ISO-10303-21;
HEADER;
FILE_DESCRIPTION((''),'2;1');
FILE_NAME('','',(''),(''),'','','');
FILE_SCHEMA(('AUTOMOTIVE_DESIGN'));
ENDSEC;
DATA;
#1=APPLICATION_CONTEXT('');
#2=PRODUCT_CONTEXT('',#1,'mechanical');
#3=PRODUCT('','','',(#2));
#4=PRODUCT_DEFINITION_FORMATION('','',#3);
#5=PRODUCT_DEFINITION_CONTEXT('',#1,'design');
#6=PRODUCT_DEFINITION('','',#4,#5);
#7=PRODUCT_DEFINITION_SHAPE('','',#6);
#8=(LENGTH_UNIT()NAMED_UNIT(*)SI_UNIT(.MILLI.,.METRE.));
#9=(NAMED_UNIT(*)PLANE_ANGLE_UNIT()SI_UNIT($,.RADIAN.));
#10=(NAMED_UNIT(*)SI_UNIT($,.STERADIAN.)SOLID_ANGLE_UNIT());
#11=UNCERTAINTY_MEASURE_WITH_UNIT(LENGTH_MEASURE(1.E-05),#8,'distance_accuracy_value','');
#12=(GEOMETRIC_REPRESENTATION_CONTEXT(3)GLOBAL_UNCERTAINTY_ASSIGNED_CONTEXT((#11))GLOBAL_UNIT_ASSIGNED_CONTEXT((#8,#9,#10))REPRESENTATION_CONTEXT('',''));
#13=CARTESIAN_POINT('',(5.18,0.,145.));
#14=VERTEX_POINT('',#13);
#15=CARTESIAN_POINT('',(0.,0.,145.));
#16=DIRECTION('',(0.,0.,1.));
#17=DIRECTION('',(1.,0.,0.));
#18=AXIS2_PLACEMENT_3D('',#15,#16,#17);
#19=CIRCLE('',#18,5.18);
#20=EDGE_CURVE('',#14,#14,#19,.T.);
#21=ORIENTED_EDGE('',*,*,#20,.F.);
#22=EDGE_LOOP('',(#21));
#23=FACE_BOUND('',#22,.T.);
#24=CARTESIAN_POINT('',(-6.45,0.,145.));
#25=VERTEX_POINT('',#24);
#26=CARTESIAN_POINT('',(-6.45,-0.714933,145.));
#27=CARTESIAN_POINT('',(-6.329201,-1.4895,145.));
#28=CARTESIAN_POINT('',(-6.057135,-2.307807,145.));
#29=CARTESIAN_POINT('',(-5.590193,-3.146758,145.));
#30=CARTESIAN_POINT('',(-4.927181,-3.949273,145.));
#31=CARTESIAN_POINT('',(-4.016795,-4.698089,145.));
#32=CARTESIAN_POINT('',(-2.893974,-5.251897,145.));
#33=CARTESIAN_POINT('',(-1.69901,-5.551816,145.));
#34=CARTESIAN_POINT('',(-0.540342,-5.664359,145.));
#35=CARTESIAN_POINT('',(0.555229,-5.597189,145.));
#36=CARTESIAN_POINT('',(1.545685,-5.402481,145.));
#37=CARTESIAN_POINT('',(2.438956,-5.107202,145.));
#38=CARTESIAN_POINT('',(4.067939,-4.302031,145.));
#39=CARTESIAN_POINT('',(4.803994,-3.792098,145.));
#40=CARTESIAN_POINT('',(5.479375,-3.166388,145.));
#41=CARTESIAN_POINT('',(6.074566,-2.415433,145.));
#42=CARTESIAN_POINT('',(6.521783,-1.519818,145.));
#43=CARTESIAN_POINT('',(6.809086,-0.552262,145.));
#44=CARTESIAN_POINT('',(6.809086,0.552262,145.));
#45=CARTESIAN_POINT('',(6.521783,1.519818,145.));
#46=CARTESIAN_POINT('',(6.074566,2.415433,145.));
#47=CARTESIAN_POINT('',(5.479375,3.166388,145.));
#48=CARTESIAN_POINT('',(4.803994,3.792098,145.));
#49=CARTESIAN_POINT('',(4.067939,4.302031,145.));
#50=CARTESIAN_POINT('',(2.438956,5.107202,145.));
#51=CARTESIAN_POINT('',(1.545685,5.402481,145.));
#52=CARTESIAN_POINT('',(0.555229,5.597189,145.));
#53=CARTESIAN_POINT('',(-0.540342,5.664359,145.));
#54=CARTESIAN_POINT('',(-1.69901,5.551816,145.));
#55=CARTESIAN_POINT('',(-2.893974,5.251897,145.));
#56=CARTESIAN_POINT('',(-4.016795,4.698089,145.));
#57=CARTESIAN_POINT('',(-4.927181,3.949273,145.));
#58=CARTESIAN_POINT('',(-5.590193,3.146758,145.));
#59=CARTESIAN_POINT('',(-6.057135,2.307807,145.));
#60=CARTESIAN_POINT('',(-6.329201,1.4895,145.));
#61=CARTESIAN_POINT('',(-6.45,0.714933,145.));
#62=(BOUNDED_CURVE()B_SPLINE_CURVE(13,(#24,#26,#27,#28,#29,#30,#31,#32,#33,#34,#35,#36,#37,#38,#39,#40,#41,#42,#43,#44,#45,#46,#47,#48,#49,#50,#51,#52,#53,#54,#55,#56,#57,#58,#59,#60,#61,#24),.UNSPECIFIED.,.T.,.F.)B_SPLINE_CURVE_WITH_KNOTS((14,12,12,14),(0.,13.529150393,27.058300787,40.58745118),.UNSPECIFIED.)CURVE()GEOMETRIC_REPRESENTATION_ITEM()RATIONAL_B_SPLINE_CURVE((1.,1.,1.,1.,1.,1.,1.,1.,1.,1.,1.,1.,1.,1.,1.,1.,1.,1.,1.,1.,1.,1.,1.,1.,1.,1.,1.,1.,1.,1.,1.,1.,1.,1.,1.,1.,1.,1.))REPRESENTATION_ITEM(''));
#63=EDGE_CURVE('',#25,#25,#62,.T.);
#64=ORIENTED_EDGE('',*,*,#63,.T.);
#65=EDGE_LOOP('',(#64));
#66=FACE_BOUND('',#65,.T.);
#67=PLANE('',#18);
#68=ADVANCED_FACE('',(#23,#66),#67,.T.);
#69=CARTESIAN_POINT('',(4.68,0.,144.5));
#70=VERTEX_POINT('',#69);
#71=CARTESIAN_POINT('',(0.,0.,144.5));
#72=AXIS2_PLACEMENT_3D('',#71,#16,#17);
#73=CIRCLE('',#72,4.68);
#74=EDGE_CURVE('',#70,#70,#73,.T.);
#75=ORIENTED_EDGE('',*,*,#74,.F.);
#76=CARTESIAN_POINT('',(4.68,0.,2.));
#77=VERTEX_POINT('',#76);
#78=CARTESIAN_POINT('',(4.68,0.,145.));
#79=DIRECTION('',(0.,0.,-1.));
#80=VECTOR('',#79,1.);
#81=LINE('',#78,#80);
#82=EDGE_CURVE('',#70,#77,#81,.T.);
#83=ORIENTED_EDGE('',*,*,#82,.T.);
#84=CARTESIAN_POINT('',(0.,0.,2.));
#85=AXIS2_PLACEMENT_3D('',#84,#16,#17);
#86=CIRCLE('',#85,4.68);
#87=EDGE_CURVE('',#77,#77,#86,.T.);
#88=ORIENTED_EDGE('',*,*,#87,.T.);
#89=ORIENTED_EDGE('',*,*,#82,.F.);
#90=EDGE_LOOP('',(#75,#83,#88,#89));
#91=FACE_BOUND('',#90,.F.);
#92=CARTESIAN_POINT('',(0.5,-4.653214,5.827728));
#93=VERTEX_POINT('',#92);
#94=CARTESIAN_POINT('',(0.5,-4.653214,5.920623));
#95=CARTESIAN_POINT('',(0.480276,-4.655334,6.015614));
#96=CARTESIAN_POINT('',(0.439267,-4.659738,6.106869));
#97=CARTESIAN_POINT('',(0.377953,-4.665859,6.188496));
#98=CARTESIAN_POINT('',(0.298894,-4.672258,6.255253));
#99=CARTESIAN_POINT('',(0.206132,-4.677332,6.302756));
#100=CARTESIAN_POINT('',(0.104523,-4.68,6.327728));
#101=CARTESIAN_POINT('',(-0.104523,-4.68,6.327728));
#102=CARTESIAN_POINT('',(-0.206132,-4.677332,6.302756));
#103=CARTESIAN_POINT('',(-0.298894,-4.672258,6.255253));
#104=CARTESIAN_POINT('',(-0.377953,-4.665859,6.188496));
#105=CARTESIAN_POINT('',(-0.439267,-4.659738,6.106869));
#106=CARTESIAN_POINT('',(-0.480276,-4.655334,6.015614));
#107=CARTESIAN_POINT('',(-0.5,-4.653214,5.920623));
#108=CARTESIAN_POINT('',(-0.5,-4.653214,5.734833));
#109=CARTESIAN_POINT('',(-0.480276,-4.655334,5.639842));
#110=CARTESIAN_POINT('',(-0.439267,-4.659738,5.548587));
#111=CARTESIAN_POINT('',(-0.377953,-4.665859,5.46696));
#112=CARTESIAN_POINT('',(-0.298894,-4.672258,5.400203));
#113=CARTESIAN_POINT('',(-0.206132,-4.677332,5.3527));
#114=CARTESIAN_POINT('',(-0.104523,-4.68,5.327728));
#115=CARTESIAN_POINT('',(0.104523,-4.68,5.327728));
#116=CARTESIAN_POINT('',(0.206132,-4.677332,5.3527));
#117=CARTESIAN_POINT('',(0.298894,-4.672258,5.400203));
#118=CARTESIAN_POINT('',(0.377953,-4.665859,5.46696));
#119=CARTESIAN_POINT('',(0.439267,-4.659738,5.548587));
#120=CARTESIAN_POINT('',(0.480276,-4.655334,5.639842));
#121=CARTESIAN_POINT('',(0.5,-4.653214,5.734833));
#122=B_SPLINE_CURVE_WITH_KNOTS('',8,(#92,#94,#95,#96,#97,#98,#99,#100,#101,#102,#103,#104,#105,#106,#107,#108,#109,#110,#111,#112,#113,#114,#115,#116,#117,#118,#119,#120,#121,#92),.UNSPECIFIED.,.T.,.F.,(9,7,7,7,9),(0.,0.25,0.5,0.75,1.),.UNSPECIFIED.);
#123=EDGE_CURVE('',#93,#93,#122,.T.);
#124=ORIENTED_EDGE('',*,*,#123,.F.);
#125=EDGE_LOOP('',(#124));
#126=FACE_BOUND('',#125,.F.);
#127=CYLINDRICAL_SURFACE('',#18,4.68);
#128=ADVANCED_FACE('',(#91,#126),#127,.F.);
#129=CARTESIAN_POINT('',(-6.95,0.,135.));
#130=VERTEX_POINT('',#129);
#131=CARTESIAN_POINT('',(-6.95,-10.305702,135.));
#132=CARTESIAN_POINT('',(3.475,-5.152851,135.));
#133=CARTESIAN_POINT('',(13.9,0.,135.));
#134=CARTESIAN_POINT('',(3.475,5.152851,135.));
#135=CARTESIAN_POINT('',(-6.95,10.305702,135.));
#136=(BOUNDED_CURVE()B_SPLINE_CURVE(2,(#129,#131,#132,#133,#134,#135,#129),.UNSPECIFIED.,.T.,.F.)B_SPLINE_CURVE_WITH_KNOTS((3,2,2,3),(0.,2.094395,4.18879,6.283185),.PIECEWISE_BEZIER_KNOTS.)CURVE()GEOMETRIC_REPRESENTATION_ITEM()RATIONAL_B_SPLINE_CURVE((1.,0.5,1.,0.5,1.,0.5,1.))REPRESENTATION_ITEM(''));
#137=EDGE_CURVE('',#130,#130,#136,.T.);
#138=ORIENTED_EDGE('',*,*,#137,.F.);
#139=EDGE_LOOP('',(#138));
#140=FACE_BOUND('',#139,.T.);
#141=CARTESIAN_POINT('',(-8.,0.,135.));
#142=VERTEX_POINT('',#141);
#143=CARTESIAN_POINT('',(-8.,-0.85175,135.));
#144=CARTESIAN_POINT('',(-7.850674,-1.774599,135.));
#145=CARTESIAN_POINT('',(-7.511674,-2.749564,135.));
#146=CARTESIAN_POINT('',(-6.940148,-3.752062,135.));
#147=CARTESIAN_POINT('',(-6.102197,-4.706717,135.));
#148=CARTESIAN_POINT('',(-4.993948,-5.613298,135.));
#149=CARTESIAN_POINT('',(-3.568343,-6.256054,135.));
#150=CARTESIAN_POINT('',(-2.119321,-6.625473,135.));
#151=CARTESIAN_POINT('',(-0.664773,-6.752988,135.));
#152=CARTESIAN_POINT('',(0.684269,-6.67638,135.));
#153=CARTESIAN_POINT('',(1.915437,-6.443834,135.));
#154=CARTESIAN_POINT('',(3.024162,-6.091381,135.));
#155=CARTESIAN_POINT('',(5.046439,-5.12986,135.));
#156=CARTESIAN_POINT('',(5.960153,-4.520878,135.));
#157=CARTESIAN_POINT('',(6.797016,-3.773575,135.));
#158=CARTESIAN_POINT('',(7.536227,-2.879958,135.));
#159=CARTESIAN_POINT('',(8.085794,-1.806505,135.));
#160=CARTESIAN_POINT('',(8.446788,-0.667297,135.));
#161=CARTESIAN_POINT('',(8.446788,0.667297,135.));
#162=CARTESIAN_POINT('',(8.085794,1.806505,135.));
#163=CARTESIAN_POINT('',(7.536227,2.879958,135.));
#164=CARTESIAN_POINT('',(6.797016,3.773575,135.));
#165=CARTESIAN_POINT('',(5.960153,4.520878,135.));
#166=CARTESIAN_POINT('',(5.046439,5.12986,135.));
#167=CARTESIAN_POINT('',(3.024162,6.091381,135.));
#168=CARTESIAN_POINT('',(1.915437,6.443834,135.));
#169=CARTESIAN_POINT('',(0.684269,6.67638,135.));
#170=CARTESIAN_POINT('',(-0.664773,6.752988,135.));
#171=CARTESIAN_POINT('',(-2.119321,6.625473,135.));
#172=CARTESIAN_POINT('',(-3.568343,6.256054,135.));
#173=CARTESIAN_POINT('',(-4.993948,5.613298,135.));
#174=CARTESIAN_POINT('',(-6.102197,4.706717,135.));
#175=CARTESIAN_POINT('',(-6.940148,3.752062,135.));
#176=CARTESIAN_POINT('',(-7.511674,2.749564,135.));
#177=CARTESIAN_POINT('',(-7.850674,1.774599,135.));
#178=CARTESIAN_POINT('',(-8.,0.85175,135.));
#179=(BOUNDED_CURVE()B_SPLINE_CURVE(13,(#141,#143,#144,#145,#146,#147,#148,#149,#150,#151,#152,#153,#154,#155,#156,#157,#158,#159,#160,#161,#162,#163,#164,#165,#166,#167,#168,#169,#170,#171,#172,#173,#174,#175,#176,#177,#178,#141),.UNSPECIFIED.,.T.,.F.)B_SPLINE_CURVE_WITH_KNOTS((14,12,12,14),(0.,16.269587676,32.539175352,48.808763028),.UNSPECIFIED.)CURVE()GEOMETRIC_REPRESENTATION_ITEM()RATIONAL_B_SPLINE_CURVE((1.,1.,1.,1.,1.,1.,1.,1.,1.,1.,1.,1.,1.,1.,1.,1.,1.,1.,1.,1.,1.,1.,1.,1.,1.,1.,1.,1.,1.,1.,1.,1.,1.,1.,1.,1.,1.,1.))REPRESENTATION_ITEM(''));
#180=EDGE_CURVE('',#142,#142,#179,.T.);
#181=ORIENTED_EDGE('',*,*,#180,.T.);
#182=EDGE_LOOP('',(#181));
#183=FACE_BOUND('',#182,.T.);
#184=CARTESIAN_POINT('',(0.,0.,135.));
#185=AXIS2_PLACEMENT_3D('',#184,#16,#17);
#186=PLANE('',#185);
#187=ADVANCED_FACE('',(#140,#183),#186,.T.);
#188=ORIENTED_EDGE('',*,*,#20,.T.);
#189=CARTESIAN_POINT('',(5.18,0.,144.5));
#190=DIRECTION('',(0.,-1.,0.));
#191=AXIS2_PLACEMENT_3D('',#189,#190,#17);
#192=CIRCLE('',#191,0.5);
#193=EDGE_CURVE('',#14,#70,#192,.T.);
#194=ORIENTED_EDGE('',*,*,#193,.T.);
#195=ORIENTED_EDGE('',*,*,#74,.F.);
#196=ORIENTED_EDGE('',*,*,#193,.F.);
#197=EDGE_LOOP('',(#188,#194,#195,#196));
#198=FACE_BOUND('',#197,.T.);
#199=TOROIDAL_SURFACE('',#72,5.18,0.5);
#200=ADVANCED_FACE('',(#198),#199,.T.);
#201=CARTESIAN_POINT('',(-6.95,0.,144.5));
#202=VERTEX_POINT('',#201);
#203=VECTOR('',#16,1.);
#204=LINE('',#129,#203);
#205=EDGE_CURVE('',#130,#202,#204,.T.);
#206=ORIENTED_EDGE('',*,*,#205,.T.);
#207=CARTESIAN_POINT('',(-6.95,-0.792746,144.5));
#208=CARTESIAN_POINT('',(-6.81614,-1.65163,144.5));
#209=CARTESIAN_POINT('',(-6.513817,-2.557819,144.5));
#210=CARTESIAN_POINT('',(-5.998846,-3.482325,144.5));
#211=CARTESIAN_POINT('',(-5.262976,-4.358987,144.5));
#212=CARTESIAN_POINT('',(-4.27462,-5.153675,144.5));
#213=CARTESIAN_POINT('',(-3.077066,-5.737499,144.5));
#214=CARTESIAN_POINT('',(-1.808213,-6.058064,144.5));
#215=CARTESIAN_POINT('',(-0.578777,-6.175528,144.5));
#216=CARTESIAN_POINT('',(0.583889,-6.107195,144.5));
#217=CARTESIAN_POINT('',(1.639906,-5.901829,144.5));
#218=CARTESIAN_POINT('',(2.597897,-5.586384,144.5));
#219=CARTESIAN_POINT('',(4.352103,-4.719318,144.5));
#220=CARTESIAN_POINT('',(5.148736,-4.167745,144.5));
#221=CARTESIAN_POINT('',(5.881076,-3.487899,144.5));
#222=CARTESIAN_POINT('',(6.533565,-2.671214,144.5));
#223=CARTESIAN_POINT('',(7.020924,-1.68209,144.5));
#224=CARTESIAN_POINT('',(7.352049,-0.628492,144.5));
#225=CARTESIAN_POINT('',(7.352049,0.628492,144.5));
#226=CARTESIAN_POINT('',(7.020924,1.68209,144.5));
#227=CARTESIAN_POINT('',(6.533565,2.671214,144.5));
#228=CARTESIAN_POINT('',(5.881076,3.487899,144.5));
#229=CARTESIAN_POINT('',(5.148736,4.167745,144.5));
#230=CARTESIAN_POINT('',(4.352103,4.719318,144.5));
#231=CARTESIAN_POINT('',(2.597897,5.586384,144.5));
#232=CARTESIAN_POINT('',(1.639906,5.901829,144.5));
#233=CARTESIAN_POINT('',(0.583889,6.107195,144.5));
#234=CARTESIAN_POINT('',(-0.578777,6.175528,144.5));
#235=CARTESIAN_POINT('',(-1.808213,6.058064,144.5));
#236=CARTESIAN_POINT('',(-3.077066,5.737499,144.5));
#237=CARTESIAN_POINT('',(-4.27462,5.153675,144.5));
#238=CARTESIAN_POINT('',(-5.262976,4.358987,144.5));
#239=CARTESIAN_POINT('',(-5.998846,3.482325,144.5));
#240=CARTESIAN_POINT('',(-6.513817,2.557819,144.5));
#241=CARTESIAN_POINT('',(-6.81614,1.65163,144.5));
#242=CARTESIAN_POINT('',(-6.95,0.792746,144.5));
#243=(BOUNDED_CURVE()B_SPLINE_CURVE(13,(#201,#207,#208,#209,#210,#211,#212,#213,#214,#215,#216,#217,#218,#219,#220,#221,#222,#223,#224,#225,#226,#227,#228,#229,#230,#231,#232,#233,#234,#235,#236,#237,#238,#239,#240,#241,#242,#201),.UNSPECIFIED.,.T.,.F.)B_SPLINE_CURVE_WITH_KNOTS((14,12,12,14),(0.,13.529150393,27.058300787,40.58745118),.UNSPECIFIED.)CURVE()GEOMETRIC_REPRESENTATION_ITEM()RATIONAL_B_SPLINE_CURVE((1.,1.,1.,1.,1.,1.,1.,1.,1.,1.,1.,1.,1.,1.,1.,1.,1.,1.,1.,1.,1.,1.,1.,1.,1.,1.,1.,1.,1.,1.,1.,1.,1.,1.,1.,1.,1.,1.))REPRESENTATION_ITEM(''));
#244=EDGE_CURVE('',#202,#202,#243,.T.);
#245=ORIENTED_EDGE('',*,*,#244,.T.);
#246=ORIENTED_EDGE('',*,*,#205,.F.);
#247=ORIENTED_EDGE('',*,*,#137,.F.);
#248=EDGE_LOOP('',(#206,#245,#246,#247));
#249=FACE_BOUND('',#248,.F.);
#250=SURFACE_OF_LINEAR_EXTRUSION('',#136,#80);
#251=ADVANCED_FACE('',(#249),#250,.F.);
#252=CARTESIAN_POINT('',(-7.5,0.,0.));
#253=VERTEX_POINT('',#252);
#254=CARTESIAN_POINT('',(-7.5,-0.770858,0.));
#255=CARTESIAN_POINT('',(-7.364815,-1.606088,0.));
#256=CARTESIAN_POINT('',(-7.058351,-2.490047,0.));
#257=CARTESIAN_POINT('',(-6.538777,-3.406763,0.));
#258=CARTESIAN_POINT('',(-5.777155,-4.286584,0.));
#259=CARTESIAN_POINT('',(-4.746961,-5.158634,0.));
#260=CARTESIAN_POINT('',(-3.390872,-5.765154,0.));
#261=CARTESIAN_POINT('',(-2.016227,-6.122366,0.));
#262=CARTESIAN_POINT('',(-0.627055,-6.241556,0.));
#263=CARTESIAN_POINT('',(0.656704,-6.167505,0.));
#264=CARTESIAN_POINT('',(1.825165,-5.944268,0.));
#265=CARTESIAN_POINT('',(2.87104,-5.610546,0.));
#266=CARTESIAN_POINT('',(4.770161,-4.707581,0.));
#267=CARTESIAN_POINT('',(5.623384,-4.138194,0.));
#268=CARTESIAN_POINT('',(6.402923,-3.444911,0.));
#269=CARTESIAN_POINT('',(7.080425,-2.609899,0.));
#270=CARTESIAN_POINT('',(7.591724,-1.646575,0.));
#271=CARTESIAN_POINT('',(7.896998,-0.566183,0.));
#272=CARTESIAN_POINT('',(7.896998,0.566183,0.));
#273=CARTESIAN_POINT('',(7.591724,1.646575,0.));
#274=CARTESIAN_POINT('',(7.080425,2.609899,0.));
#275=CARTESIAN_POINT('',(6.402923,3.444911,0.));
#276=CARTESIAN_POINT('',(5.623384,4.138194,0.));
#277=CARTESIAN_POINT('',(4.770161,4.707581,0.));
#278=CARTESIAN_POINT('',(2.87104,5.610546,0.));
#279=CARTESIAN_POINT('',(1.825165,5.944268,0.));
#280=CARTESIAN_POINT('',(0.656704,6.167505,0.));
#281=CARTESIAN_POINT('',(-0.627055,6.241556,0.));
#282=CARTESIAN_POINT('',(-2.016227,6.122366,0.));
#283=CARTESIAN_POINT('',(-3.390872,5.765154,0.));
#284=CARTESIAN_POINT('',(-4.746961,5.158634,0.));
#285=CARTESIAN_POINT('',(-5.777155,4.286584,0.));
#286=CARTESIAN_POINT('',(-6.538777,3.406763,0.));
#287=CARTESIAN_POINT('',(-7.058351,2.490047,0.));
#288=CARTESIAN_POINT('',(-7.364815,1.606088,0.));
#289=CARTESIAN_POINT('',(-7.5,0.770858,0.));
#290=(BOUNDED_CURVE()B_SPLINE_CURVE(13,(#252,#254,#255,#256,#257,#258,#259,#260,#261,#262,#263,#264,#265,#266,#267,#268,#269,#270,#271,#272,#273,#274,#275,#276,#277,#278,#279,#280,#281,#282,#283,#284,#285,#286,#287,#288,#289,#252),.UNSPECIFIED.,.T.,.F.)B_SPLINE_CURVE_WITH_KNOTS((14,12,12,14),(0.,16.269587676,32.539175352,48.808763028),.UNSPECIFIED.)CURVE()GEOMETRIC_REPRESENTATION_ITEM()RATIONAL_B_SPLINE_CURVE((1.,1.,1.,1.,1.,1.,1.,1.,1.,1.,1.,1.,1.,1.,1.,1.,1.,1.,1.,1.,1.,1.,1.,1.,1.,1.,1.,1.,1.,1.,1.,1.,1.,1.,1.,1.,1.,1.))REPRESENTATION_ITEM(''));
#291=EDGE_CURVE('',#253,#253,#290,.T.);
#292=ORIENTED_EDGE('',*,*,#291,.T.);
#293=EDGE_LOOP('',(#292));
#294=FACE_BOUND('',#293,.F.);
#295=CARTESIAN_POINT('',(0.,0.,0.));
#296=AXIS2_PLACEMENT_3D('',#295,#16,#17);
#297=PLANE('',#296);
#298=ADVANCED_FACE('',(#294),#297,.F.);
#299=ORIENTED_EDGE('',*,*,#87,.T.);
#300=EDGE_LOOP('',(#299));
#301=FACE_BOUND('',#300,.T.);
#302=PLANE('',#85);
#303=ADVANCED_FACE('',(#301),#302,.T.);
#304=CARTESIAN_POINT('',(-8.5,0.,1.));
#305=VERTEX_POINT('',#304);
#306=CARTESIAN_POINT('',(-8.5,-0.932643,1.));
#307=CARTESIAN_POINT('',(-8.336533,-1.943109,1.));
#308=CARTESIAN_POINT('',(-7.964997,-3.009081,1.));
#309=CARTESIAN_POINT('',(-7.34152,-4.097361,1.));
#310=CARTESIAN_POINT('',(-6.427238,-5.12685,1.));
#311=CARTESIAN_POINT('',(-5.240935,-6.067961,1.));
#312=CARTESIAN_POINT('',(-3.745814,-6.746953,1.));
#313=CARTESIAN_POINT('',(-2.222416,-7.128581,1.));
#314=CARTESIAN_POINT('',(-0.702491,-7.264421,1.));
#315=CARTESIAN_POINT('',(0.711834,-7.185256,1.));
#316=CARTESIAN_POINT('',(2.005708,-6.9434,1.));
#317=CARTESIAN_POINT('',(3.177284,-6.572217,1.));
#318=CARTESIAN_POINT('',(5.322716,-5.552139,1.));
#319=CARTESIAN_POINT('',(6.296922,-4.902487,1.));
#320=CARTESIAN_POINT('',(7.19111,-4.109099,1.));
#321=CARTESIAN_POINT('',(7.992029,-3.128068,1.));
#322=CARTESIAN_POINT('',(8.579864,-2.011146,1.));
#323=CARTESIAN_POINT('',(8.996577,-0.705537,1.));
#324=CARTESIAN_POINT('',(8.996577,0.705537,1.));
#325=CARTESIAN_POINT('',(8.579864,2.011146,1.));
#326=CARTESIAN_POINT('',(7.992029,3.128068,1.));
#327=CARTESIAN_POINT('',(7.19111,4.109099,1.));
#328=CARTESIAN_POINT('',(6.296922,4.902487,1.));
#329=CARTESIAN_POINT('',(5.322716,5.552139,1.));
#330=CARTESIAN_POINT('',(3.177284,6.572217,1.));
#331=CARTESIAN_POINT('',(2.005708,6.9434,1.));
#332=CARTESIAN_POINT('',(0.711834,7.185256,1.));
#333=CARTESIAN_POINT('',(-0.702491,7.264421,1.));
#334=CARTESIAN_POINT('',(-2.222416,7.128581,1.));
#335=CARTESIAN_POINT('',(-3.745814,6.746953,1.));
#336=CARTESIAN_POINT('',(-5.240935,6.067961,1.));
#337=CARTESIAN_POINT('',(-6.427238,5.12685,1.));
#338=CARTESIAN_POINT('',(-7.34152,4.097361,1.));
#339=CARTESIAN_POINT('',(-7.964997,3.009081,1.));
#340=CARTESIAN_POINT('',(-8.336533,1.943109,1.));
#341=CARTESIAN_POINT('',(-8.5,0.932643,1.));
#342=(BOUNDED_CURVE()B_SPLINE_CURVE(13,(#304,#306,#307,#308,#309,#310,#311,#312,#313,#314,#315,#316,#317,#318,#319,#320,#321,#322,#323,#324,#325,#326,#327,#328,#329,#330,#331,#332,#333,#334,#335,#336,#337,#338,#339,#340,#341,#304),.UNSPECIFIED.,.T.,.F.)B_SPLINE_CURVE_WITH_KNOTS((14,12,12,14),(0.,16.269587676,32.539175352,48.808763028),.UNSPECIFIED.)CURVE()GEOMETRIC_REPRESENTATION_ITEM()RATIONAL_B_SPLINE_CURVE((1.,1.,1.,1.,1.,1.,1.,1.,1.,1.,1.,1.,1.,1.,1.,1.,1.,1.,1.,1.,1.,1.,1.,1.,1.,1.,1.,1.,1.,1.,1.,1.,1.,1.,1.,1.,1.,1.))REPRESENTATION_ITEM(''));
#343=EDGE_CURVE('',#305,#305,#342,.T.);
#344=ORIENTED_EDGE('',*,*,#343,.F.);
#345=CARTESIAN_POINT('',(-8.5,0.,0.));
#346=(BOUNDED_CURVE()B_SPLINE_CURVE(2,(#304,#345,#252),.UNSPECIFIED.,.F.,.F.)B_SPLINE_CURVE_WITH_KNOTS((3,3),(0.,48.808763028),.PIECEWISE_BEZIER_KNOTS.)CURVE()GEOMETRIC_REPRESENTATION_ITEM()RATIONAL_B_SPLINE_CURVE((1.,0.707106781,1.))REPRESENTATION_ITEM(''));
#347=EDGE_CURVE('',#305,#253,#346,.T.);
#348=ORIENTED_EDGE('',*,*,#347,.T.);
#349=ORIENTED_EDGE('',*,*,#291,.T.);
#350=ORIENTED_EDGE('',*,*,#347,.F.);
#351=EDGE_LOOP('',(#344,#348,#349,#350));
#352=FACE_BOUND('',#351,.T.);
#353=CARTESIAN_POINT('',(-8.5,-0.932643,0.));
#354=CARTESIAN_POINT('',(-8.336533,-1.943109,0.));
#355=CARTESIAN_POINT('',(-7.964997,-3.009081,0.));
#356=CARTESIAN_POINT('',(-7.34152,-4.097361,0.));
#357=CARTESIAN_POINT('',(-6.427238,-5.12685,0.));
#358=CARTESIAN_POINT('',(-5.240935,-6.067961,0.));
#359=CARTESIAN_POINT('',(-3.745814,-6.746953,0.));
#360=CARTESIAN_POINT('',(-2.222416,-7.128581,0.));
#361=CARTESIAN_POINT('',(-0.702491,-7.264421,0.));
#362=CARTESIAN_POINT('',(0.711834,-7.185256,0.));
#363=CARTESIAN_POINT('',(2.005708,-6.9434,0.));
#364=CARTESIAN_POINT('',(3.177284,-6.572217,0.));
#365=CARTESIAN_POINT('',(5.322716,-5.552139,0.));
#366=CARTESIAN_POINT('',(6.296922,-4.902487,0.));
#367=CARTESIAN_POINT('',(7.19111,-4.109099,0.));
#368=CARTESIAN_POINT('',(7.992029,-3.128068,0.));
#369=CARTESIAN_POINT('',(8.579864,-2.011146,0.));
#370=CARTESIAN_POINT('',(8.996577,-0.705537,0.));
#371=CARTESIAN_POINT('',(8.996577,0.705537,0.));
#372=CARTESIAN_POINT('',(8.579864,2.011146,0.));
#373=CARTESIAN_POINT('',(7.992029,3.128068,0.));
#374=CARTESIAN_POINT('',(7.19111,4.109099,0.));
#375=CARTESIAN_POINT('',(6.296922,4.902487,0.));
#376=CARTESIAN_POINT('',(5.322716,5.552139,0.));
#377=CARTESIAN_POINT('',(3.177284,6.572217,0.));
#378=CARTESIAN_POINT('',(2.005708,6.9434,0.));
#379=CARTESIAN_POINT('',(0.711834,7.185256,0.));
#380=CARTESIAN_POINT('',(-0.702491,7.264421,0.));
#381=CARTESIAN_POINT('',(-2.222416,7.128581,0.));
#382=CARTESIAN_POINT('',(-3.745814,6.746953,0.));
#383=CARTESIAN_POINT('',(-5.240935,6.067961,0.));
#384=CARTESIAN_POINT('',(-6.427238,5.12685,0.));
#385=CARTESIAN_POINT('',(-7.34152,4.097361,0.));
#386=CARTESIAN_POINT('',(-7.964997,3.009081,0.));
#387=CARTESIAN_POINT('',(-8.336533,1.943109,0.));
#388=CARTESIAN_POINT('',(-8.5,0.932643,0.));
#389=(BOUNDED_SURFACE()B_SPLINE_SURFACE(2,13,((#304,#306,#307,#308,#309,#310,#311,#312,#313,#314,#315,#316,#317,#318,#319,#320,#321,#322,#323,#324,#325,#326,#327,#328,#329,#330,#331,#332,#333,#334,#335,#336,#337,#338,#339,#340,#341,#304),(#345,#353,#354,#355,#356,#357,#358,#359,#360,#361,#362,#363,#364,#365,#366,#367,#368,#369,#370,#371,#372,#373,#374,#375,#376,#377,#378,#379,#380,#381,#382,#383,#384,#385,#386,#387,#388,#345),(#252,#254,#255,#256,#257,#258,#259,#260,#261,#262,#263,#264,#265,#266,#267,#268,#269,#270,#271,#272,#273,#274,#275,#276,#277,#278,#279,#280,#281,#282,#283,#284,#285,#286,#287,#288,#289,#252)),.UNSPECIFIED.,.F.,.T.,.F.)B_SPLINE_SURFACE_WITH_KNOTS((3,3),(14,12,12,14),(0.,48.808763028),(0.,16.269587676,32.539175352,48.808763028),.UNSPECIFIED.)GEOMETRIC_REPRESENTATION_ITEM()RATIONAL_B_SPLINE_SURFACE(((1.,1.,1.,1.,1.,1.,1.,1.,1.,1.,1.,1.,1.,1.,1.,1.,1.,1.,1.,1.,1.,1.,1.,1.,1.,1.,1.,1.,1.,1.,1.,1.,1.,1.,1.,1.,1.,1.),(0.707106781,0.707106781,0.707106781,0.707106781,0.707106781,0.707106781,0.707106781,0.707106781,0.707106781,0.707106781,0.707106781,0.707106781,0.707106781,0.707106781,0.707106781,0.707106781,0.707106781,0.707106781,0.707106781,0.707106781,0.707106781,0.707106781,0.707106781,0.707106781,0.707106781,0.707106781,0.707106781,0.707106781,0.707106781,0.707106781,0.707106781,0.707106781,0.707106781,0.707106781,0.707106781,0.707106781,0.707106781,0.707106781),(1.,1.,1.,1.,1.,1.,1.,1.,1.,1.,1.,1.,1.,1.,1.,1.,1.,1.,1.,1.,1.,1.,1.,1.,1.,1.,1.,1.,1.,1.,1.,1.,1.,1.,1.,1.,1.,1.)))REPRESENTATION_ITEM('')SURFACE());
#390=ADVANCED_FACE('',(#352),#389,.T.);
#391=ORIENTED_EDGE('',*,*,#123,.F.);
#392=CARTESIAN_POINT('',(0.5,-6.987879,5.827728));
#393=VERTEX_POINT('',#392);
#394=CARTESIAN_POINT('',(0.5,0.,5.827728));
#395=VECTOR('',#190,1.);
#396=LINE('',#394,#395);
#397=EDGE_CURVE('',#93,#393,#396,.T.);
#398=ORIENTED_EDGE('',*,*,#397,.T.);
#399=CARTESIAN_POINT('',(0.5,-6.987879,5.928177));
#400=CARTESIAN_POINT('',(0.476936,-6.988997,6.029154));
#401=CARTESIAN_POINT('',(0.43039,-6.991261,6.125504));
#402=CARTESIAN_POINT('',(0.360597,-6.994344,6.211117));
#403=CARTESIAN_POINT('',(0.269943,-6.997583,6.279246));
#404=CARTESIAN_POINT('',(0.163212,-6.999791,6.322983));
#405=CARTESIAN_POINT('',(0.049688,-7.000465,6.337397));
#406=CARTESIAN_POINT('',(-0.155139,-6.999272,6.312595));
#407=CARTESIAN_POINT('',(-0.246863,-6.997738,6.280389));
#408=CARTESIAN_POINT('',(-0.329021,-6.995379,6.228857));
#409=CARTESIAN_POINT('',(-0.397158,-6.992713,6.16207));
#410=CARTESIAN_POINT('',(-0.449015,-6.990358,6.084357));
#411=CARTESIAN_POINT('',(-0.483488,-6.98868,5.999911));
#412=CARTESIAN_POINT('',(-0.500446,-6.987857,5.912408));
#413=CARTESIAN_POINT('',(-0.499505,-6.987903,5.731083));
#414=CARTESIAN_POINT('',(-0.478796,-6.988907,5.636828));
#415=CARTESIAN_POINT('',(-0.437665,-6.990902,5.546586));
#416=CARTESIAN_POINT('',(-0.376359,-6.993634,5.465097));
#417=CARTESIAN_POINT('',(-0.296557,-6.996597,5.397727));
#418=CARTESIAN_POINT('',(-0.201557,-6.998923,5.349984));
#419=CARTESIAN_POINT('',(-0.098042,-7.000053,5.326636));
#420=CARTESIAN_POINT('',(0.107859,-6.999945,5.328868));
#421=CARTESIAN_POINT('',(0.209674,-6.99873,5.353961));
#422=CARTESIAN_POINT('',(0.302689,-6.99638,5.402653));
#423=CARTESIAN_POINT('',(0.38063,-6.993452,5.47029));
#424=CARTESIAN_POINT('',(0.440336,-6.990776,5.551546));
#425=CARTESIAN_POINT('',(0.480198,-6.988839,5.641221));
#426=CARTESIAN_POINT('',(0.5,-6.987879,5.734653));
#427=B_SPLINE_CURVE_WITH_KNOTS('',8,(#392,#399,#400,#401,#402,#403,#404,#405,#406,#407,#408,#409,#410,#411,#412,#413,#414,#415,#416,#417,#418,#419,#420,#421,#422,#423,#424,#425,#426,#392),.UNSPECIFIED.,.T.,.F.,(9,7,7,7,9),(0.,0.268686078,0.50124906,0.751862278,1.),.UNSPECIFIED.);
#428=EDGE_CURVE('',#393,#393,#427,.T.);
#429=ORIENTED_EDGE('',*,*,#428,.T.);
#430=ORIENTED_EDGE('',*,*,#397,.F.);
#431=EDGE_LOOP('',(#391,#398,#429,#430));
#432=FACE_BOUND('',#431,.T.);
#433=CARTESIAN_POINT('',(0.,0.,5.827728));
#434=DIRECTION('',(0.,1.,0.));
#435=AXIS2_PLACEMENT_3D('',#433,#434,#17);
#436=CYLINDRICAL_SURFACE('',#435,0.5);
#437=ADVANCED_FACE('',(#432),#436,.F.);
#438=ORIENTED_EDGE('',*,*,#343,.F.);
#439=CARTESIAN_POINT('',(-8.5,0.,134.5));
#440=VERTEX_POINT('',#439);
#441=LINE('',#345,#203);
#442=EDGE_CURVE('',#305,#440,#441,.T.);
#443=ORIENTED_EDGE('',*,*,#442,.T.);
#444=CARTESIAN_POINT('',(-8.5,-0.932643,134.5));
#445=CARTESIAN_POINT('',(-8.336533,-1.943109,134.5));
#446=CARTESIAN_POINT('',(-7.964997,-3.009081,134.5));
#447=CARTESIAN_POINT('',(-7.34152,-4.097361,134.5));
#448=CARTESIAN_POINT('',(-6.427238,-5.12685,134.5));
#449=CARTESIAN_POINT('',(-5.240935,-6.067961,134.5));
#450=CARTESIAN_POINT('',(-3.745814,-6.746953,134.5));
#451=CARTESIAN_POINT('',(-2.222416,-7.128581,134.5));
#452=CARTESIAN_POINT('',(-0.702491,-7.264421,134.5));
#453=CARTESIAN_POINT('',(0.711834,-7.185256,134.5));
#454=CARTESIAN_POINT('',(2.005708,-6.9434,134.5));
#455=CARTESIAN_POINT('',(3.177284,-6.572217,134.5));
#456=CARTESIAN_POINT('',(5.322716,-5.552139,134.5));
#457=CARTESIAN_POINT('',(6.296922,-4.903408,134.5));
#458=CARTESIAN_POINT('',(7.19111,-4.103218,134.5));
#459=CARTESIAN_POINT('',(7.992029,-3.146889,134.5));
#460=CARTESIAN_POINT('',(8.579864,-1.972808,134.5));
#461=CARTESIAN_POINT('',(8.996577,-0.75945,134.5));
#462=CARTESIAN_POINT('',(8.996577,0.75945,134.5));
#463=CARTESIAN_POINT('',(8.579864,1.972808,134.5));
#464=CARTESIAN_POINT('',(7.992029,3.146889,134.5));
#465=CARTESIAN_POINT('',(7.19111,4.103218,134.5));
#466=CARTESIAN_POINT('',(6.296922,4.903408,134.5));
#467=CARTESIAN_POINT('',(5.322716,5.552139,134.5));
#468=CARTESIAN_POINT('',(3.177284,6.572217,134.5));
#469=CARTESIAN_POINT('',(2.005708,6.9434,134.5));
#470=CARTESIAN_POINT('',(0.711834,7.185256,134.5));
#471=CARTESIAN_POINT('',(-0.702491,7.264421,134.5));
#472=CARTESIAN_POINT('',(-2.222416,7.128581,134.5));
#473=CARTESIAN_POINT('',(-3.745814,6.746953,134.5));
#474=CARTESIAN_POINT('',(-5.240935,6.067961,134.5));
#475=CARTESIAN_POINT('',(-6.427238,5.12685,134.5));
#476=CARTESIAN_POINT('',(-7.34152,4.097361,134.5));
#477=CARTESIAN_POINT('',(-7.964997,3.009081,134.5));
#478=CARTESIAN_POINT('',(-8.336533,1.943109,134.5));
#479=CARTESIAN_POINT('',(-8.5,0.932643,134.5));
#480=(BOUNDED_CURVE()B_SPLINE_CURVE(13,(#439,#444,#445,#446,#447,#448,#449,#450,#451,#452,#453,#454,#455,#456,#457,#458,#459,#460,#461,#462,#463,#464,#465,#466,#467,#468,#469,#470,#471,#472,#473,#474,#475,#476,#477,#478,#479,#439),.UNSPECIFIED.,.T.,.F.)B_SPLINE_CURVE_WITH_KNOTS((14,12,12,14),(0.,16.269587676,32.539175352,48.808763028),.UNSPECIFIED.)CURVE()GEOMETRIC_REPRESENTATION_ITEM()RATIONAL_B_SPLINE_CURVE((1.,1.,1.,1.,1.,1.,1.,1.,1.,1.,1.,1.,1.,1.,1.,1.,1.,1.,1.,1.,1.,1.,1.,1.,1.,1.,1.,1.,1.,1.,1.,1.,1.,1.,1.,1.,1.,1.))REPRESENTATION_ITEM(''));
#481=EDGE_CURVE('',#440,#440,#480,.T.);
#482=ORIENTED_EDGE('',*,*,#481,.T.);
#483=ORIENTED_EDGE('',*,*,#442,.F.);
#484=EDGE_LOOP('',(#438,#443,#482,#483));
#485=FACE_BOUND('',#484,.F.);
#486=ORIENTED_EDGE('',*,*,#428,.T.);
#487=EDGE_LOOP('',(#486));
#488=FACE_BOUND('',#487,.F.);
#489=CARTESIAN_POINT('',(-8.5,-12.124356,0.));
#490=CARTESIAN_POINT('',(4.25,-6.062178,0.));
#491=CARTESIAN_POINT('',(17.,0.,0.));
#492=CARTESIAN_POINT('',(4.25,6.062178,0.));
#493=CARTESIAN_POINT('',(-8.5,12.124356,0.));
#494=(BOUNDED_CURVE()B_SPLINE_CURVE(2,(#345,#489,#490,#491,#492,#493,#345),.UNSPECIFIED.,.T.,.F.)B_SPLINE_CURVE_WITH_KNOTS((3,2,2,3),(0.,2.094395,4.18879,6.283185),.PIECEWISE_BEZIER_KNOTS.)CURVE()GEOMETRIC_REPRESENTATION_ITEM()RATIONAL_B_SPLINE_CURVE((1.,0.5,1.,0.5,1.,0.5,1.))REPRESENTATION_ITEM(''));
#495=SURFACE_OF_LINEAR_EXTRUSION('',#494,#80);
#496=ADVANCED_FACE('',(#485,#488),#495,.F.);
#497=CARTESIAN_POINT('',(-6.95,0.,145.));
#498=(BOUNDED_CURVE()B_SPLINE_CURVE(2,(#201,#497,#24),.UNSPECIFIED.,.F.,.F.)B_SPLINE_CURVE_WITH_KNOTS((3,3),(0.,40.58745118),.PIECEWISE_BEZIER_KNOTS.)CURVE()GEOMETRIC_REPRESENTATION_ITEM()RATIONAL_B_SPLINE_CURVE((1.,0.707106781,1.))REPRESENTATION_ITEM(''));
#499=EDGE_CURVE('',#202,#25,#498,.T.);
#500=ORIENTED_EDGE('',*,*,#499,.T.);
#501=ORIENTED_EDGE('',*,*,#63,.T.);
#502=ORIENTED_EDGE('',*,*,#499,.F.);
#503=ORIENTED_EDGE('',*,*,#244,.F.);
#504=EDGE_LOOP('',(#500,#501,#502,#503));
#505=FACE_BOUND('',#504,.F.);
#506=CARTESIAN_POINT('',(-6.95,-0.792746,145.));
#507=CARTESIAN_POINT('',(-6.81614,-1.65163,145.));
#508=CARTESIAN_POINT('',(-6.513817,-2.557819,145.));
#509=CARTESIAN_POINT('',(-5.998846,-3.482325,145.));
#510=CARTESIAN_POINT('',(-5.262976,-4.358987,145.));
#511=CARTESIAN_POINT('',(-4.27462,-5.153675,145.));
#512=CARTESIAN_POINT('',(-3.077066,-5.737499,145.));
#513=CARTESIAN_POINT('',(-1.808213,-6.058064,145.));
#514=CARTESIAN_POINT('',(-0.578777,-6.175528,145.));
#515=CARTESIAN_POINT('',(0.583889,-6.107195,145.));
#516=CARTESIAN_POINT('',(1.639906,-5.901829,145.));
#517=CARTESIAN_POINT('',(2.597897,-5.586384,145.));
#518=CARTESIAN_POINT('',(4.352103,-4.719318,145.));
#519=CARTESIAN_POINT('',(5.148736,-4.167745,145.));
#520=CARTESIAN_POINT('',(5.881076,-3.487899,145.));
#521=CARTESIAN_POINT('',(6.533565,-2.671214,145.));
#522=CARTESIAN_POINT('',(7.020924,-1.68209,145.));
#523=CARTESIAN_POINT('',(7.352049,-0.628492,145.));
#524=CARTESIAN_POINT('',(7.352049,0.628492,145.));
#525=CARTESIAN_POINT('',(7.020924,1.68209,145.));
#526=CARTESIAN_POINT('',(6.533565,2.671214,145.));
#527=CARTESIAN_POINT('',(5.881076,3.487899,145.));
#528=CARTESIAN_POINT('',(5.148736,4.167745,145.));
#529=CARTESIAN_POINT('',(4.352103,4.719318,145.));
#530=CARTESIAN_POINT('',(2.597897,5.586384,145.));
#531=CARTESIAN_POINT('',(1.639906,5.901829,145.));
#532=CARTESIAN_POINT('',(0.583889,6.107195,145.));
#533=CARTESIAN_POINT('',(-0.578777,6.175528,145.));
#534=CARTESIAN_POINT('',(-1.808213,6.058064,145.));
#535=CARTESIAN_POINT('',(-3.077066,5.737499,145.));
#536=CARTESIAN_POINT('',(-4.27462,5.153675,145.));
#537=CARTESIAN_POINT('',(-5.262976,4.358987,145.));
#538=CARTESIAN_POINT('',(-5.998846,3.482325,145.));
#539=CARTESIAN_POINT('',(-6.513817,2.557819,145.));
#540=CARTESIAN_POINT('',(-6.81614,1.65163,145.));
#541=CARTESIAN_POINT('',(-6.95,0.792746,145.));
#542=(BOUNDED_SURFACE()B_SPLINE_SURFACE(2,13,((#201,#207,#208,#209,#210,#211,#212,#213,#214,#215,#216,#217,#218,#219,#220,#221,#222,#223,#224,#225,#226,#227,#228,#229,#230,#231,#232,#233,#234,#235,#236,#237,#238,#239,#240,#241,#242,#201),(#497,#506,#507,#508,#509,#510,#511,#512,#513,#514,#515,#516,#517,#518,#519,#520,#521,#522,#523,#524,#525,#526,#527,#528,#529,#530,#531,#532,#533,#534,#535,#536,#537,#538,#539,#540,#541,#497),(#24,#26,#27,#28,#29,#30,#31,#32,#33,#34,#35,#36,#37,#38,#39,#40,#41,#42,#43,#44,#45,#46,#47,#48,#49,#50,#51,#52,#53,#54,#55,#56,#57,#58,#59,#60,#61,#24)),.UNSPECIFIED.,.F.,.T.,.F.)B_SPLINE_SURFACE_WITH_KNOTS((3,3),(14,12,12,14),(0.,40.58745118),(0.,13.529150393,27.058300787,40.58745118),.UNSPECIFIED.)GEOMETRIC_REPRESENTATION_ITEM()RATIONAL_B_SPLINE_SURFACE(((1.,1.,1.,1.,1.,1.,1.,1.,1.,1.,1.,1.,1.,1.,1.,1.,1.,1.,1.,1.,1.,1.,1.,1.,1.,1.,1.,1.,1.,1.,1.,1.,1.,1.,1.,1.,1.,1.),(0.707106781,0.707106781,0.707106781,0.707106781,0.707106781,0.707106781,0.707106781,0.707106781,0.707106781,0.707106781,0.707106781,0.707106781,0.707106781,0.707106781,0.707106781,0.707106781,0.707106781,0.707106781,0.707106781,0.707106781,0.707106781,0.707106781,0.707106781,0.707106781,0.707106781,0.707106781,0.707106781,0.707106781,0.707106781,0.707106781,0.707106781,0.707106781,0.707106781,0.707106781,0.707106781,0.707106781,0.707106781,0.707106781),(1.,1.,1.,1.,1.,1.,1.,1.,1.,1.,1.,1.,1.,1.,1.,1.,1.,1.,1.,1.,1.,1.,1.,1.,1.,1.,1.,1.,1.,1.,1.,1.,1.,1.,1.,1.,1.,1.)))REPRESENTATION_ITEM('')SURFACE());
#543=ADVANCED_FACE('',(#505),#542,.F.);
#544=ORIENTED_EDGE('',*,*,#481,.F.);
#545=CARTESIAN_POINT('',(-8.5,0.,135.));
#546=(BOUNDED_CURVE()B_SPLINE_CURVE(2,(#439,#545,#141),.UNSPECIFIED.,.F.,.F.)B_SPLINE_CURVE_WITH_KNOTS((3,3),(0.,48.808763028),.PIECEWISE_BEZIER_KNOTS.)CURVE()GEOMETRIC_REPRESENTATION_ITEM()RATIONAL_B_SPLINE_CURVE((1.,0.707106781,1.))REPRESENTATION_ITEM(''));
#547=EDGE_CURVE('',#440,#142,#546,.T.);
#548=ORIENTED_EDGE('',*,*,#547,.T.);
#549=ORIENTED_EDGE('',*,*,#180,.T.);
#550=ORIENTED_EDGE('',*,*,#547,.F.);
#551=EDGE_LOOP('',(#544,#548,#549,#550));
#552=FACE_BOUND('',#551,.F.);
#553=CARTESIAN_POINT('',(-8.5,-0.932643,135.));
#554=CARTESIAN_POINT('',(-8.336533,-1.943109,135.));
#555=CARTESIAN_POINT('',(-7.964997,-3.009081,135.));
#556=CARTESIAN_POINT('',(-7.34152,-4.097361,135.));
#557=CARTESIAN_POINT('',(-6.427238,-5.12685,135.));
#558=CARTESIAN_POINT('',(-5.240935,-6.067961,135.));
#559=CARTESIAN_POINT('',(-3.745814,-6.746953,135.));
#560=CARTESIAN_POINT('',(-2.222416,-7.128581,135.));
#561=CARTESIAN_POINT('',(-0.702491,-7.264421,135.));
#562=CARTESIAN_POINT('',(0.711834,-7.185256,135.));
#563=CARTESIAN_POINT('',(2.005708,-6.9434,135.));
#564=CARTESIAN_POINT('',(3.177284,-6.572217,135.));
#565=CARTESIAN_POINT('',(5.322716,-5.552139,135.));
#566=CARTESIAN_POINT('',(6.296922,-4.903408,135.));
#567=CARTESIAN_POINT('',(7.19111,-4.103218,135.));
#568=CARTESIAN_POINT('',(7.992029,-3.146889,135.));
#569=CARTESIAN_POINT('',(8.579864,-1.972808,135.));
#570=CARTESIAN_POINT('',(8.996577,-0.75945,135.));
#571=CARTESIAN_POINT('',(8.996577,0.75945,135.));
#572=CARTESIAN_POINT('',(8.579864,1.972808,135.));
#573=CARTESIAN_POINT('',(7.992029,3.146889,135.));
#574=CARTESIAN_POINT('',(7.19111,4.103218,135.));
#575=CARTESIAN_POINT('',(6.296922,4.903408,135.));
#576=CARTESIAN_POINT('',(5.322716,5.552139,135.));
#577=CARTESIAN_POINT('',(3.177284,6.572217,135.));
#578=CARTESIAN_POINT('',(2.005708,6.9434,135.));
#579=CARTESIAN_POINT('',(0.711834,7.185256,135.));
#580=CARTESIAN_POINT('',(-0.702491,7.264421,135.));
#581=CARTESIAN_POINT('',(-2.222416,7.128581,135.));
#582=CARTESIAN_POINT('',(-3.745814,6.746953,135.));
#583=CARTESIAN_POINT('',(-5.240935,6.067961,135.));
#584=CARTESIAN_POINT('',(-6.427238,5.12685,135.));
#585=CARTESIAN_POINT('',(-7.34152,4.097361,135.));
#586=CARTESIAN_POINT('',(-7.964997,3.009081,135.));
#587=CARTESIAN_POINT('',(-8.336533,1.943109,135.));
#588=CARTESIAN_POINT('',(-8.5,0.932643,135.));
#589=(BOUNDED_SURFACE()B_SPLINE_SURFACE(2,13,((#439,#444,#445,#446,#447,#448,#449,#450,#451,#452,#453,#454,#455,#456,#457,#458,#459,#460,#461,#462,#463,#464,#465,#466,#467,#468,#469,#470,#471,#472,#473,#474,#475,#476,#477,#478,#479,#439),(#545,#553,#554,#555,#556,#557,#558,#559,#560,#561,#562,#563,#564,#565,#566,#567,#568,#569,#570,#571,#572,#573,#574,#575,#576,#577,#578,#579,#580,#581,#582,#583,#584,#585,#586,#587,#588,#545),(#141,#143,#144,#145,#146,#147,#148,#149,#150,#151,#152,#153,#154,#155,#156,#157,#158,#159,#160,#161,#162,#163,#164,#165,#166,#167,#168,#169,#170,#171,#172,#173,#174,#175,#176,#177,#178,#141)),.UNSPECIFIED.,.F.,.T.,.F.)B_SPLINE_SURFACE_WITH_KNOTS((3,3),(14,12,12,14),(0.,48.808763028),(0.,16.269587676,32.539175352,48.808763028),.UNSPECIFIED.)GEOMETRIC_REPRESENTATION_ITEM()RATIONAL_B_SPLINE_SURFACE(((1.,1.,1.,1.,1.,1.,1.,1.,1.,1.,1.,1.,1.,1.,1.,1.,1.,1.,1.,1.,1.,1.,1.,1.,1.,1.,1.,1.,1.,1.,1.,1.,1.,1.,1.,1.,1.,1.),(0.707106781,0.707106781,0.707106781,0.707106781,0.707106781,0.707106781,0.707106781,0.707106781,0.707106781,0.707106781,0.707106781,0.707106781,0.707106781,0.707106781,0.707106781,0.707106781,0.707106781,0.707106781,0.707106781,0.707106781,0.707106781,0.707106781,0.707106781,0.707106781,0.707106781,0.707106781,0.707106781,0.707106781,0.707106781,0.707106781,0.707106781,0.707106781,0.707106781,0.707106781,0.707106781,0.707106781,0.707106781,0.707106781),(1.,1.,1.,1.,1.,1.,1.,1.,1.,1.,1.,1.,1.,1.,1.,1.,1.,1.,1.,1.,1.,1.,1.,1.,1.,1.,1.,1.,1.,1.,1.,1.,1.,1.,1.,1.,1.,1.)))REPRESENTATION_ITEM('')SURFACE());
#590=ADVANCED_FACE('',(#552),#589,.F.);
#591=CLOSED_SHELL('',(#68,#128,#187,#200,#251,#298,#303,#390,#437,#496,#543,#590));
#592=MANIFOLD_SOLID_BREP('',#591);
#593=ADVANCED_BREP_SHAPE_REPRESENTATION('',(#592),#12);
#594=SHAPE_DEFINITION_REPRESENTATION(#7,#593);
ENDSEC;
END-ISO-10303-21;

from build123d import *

# Parameters (mm, degrees)
F0_R     = 4.55
F1_DEPTH = 135
F3_DEPTH = 10
F4_R     = 4.68
F5_DEPTH = 143
F6_R     = 0.5
F7_R     = 1
F8_R     = 0.5
F9_DEPTH = 25


with BuildPart() as f1:
    # F0 (on Top) → F1 (new body)
    with BuildSketch(Plane.XY):
        with BuildLine():
            add(Edge.make_bspline(
                [(-8.5, 0), (-8.5, -12.124356), (4.25, -6.062178), (17, 0), (4.25, 6.062178), (-8.5, 12.124356), (-8.5, 0)],
                knots=[0, 0, 0, 2.094395, 2.094395, 4.18879, 4.18879, 6.283185, 6.283185, 6.283185], degree=2, weights=[1, 0.5, 1, 0.5, 1, 0.5, 1]))
        make_face()
        Circle(F0_R, mode=Mode.SUBTRACT)
        Circle(F0_R)
    extrude(amount=F1_DEPTH)

    # F2 (on face) → F3 (join)
    with BuildSketch(Plane.XY.offset(135)):
        with BuildLine():
            add(Edge.make_bspline(
                [(-6.95, 0), (-6.95, -10.305702), (3.475, -5.152851), (13.9, 0), (3.475, 5.152851), (-6.95, 10.305702), (-6.95, 0)],
                knots=[0, 0, 0, 2.094395, 2.094395, 4.18879, 4.18879, 6.283185, 6.283185, 6.283185], degree=2, weights=[1, 0.5, 1, 0.5, 1, 0.5, 1]))
        make_face()
    extrude(amount=F3_DEPTH)

    # F4 (on face) → F5 (cut)
    with BuildSketch(Plane.XY.offset(145)):
        Circle(F4_R)
    extrude(amount=-F5_DEPTH, mode=Mode.SUBTRACT)

    # F6
    f6_edges = [f1.edges().sort_by_distance(p)[0] for p in [
        (-4.68, 0, 145),
        (6.95, 0, 145),
        (8.5, 0, 135),
    ]]
    fillet(f6_edges, radius=F6_R)

    # F7
    f7_edges = [f1.edges().sort_by_distance(p)[0] for p in [
        (8.5, 0, 0),
    ]]
    fillet(f7_edges, radius=F7_R)

    # F8 (on Front) → F9 (cut)
    with BuildSketch(Plane.XZ):
        with Locations((0, 5.827728)):
            Circle(F8_R)
    extrude(amount=F9_DEPTH, mode=Mode.SUBTRACT)


solid = f1.part
